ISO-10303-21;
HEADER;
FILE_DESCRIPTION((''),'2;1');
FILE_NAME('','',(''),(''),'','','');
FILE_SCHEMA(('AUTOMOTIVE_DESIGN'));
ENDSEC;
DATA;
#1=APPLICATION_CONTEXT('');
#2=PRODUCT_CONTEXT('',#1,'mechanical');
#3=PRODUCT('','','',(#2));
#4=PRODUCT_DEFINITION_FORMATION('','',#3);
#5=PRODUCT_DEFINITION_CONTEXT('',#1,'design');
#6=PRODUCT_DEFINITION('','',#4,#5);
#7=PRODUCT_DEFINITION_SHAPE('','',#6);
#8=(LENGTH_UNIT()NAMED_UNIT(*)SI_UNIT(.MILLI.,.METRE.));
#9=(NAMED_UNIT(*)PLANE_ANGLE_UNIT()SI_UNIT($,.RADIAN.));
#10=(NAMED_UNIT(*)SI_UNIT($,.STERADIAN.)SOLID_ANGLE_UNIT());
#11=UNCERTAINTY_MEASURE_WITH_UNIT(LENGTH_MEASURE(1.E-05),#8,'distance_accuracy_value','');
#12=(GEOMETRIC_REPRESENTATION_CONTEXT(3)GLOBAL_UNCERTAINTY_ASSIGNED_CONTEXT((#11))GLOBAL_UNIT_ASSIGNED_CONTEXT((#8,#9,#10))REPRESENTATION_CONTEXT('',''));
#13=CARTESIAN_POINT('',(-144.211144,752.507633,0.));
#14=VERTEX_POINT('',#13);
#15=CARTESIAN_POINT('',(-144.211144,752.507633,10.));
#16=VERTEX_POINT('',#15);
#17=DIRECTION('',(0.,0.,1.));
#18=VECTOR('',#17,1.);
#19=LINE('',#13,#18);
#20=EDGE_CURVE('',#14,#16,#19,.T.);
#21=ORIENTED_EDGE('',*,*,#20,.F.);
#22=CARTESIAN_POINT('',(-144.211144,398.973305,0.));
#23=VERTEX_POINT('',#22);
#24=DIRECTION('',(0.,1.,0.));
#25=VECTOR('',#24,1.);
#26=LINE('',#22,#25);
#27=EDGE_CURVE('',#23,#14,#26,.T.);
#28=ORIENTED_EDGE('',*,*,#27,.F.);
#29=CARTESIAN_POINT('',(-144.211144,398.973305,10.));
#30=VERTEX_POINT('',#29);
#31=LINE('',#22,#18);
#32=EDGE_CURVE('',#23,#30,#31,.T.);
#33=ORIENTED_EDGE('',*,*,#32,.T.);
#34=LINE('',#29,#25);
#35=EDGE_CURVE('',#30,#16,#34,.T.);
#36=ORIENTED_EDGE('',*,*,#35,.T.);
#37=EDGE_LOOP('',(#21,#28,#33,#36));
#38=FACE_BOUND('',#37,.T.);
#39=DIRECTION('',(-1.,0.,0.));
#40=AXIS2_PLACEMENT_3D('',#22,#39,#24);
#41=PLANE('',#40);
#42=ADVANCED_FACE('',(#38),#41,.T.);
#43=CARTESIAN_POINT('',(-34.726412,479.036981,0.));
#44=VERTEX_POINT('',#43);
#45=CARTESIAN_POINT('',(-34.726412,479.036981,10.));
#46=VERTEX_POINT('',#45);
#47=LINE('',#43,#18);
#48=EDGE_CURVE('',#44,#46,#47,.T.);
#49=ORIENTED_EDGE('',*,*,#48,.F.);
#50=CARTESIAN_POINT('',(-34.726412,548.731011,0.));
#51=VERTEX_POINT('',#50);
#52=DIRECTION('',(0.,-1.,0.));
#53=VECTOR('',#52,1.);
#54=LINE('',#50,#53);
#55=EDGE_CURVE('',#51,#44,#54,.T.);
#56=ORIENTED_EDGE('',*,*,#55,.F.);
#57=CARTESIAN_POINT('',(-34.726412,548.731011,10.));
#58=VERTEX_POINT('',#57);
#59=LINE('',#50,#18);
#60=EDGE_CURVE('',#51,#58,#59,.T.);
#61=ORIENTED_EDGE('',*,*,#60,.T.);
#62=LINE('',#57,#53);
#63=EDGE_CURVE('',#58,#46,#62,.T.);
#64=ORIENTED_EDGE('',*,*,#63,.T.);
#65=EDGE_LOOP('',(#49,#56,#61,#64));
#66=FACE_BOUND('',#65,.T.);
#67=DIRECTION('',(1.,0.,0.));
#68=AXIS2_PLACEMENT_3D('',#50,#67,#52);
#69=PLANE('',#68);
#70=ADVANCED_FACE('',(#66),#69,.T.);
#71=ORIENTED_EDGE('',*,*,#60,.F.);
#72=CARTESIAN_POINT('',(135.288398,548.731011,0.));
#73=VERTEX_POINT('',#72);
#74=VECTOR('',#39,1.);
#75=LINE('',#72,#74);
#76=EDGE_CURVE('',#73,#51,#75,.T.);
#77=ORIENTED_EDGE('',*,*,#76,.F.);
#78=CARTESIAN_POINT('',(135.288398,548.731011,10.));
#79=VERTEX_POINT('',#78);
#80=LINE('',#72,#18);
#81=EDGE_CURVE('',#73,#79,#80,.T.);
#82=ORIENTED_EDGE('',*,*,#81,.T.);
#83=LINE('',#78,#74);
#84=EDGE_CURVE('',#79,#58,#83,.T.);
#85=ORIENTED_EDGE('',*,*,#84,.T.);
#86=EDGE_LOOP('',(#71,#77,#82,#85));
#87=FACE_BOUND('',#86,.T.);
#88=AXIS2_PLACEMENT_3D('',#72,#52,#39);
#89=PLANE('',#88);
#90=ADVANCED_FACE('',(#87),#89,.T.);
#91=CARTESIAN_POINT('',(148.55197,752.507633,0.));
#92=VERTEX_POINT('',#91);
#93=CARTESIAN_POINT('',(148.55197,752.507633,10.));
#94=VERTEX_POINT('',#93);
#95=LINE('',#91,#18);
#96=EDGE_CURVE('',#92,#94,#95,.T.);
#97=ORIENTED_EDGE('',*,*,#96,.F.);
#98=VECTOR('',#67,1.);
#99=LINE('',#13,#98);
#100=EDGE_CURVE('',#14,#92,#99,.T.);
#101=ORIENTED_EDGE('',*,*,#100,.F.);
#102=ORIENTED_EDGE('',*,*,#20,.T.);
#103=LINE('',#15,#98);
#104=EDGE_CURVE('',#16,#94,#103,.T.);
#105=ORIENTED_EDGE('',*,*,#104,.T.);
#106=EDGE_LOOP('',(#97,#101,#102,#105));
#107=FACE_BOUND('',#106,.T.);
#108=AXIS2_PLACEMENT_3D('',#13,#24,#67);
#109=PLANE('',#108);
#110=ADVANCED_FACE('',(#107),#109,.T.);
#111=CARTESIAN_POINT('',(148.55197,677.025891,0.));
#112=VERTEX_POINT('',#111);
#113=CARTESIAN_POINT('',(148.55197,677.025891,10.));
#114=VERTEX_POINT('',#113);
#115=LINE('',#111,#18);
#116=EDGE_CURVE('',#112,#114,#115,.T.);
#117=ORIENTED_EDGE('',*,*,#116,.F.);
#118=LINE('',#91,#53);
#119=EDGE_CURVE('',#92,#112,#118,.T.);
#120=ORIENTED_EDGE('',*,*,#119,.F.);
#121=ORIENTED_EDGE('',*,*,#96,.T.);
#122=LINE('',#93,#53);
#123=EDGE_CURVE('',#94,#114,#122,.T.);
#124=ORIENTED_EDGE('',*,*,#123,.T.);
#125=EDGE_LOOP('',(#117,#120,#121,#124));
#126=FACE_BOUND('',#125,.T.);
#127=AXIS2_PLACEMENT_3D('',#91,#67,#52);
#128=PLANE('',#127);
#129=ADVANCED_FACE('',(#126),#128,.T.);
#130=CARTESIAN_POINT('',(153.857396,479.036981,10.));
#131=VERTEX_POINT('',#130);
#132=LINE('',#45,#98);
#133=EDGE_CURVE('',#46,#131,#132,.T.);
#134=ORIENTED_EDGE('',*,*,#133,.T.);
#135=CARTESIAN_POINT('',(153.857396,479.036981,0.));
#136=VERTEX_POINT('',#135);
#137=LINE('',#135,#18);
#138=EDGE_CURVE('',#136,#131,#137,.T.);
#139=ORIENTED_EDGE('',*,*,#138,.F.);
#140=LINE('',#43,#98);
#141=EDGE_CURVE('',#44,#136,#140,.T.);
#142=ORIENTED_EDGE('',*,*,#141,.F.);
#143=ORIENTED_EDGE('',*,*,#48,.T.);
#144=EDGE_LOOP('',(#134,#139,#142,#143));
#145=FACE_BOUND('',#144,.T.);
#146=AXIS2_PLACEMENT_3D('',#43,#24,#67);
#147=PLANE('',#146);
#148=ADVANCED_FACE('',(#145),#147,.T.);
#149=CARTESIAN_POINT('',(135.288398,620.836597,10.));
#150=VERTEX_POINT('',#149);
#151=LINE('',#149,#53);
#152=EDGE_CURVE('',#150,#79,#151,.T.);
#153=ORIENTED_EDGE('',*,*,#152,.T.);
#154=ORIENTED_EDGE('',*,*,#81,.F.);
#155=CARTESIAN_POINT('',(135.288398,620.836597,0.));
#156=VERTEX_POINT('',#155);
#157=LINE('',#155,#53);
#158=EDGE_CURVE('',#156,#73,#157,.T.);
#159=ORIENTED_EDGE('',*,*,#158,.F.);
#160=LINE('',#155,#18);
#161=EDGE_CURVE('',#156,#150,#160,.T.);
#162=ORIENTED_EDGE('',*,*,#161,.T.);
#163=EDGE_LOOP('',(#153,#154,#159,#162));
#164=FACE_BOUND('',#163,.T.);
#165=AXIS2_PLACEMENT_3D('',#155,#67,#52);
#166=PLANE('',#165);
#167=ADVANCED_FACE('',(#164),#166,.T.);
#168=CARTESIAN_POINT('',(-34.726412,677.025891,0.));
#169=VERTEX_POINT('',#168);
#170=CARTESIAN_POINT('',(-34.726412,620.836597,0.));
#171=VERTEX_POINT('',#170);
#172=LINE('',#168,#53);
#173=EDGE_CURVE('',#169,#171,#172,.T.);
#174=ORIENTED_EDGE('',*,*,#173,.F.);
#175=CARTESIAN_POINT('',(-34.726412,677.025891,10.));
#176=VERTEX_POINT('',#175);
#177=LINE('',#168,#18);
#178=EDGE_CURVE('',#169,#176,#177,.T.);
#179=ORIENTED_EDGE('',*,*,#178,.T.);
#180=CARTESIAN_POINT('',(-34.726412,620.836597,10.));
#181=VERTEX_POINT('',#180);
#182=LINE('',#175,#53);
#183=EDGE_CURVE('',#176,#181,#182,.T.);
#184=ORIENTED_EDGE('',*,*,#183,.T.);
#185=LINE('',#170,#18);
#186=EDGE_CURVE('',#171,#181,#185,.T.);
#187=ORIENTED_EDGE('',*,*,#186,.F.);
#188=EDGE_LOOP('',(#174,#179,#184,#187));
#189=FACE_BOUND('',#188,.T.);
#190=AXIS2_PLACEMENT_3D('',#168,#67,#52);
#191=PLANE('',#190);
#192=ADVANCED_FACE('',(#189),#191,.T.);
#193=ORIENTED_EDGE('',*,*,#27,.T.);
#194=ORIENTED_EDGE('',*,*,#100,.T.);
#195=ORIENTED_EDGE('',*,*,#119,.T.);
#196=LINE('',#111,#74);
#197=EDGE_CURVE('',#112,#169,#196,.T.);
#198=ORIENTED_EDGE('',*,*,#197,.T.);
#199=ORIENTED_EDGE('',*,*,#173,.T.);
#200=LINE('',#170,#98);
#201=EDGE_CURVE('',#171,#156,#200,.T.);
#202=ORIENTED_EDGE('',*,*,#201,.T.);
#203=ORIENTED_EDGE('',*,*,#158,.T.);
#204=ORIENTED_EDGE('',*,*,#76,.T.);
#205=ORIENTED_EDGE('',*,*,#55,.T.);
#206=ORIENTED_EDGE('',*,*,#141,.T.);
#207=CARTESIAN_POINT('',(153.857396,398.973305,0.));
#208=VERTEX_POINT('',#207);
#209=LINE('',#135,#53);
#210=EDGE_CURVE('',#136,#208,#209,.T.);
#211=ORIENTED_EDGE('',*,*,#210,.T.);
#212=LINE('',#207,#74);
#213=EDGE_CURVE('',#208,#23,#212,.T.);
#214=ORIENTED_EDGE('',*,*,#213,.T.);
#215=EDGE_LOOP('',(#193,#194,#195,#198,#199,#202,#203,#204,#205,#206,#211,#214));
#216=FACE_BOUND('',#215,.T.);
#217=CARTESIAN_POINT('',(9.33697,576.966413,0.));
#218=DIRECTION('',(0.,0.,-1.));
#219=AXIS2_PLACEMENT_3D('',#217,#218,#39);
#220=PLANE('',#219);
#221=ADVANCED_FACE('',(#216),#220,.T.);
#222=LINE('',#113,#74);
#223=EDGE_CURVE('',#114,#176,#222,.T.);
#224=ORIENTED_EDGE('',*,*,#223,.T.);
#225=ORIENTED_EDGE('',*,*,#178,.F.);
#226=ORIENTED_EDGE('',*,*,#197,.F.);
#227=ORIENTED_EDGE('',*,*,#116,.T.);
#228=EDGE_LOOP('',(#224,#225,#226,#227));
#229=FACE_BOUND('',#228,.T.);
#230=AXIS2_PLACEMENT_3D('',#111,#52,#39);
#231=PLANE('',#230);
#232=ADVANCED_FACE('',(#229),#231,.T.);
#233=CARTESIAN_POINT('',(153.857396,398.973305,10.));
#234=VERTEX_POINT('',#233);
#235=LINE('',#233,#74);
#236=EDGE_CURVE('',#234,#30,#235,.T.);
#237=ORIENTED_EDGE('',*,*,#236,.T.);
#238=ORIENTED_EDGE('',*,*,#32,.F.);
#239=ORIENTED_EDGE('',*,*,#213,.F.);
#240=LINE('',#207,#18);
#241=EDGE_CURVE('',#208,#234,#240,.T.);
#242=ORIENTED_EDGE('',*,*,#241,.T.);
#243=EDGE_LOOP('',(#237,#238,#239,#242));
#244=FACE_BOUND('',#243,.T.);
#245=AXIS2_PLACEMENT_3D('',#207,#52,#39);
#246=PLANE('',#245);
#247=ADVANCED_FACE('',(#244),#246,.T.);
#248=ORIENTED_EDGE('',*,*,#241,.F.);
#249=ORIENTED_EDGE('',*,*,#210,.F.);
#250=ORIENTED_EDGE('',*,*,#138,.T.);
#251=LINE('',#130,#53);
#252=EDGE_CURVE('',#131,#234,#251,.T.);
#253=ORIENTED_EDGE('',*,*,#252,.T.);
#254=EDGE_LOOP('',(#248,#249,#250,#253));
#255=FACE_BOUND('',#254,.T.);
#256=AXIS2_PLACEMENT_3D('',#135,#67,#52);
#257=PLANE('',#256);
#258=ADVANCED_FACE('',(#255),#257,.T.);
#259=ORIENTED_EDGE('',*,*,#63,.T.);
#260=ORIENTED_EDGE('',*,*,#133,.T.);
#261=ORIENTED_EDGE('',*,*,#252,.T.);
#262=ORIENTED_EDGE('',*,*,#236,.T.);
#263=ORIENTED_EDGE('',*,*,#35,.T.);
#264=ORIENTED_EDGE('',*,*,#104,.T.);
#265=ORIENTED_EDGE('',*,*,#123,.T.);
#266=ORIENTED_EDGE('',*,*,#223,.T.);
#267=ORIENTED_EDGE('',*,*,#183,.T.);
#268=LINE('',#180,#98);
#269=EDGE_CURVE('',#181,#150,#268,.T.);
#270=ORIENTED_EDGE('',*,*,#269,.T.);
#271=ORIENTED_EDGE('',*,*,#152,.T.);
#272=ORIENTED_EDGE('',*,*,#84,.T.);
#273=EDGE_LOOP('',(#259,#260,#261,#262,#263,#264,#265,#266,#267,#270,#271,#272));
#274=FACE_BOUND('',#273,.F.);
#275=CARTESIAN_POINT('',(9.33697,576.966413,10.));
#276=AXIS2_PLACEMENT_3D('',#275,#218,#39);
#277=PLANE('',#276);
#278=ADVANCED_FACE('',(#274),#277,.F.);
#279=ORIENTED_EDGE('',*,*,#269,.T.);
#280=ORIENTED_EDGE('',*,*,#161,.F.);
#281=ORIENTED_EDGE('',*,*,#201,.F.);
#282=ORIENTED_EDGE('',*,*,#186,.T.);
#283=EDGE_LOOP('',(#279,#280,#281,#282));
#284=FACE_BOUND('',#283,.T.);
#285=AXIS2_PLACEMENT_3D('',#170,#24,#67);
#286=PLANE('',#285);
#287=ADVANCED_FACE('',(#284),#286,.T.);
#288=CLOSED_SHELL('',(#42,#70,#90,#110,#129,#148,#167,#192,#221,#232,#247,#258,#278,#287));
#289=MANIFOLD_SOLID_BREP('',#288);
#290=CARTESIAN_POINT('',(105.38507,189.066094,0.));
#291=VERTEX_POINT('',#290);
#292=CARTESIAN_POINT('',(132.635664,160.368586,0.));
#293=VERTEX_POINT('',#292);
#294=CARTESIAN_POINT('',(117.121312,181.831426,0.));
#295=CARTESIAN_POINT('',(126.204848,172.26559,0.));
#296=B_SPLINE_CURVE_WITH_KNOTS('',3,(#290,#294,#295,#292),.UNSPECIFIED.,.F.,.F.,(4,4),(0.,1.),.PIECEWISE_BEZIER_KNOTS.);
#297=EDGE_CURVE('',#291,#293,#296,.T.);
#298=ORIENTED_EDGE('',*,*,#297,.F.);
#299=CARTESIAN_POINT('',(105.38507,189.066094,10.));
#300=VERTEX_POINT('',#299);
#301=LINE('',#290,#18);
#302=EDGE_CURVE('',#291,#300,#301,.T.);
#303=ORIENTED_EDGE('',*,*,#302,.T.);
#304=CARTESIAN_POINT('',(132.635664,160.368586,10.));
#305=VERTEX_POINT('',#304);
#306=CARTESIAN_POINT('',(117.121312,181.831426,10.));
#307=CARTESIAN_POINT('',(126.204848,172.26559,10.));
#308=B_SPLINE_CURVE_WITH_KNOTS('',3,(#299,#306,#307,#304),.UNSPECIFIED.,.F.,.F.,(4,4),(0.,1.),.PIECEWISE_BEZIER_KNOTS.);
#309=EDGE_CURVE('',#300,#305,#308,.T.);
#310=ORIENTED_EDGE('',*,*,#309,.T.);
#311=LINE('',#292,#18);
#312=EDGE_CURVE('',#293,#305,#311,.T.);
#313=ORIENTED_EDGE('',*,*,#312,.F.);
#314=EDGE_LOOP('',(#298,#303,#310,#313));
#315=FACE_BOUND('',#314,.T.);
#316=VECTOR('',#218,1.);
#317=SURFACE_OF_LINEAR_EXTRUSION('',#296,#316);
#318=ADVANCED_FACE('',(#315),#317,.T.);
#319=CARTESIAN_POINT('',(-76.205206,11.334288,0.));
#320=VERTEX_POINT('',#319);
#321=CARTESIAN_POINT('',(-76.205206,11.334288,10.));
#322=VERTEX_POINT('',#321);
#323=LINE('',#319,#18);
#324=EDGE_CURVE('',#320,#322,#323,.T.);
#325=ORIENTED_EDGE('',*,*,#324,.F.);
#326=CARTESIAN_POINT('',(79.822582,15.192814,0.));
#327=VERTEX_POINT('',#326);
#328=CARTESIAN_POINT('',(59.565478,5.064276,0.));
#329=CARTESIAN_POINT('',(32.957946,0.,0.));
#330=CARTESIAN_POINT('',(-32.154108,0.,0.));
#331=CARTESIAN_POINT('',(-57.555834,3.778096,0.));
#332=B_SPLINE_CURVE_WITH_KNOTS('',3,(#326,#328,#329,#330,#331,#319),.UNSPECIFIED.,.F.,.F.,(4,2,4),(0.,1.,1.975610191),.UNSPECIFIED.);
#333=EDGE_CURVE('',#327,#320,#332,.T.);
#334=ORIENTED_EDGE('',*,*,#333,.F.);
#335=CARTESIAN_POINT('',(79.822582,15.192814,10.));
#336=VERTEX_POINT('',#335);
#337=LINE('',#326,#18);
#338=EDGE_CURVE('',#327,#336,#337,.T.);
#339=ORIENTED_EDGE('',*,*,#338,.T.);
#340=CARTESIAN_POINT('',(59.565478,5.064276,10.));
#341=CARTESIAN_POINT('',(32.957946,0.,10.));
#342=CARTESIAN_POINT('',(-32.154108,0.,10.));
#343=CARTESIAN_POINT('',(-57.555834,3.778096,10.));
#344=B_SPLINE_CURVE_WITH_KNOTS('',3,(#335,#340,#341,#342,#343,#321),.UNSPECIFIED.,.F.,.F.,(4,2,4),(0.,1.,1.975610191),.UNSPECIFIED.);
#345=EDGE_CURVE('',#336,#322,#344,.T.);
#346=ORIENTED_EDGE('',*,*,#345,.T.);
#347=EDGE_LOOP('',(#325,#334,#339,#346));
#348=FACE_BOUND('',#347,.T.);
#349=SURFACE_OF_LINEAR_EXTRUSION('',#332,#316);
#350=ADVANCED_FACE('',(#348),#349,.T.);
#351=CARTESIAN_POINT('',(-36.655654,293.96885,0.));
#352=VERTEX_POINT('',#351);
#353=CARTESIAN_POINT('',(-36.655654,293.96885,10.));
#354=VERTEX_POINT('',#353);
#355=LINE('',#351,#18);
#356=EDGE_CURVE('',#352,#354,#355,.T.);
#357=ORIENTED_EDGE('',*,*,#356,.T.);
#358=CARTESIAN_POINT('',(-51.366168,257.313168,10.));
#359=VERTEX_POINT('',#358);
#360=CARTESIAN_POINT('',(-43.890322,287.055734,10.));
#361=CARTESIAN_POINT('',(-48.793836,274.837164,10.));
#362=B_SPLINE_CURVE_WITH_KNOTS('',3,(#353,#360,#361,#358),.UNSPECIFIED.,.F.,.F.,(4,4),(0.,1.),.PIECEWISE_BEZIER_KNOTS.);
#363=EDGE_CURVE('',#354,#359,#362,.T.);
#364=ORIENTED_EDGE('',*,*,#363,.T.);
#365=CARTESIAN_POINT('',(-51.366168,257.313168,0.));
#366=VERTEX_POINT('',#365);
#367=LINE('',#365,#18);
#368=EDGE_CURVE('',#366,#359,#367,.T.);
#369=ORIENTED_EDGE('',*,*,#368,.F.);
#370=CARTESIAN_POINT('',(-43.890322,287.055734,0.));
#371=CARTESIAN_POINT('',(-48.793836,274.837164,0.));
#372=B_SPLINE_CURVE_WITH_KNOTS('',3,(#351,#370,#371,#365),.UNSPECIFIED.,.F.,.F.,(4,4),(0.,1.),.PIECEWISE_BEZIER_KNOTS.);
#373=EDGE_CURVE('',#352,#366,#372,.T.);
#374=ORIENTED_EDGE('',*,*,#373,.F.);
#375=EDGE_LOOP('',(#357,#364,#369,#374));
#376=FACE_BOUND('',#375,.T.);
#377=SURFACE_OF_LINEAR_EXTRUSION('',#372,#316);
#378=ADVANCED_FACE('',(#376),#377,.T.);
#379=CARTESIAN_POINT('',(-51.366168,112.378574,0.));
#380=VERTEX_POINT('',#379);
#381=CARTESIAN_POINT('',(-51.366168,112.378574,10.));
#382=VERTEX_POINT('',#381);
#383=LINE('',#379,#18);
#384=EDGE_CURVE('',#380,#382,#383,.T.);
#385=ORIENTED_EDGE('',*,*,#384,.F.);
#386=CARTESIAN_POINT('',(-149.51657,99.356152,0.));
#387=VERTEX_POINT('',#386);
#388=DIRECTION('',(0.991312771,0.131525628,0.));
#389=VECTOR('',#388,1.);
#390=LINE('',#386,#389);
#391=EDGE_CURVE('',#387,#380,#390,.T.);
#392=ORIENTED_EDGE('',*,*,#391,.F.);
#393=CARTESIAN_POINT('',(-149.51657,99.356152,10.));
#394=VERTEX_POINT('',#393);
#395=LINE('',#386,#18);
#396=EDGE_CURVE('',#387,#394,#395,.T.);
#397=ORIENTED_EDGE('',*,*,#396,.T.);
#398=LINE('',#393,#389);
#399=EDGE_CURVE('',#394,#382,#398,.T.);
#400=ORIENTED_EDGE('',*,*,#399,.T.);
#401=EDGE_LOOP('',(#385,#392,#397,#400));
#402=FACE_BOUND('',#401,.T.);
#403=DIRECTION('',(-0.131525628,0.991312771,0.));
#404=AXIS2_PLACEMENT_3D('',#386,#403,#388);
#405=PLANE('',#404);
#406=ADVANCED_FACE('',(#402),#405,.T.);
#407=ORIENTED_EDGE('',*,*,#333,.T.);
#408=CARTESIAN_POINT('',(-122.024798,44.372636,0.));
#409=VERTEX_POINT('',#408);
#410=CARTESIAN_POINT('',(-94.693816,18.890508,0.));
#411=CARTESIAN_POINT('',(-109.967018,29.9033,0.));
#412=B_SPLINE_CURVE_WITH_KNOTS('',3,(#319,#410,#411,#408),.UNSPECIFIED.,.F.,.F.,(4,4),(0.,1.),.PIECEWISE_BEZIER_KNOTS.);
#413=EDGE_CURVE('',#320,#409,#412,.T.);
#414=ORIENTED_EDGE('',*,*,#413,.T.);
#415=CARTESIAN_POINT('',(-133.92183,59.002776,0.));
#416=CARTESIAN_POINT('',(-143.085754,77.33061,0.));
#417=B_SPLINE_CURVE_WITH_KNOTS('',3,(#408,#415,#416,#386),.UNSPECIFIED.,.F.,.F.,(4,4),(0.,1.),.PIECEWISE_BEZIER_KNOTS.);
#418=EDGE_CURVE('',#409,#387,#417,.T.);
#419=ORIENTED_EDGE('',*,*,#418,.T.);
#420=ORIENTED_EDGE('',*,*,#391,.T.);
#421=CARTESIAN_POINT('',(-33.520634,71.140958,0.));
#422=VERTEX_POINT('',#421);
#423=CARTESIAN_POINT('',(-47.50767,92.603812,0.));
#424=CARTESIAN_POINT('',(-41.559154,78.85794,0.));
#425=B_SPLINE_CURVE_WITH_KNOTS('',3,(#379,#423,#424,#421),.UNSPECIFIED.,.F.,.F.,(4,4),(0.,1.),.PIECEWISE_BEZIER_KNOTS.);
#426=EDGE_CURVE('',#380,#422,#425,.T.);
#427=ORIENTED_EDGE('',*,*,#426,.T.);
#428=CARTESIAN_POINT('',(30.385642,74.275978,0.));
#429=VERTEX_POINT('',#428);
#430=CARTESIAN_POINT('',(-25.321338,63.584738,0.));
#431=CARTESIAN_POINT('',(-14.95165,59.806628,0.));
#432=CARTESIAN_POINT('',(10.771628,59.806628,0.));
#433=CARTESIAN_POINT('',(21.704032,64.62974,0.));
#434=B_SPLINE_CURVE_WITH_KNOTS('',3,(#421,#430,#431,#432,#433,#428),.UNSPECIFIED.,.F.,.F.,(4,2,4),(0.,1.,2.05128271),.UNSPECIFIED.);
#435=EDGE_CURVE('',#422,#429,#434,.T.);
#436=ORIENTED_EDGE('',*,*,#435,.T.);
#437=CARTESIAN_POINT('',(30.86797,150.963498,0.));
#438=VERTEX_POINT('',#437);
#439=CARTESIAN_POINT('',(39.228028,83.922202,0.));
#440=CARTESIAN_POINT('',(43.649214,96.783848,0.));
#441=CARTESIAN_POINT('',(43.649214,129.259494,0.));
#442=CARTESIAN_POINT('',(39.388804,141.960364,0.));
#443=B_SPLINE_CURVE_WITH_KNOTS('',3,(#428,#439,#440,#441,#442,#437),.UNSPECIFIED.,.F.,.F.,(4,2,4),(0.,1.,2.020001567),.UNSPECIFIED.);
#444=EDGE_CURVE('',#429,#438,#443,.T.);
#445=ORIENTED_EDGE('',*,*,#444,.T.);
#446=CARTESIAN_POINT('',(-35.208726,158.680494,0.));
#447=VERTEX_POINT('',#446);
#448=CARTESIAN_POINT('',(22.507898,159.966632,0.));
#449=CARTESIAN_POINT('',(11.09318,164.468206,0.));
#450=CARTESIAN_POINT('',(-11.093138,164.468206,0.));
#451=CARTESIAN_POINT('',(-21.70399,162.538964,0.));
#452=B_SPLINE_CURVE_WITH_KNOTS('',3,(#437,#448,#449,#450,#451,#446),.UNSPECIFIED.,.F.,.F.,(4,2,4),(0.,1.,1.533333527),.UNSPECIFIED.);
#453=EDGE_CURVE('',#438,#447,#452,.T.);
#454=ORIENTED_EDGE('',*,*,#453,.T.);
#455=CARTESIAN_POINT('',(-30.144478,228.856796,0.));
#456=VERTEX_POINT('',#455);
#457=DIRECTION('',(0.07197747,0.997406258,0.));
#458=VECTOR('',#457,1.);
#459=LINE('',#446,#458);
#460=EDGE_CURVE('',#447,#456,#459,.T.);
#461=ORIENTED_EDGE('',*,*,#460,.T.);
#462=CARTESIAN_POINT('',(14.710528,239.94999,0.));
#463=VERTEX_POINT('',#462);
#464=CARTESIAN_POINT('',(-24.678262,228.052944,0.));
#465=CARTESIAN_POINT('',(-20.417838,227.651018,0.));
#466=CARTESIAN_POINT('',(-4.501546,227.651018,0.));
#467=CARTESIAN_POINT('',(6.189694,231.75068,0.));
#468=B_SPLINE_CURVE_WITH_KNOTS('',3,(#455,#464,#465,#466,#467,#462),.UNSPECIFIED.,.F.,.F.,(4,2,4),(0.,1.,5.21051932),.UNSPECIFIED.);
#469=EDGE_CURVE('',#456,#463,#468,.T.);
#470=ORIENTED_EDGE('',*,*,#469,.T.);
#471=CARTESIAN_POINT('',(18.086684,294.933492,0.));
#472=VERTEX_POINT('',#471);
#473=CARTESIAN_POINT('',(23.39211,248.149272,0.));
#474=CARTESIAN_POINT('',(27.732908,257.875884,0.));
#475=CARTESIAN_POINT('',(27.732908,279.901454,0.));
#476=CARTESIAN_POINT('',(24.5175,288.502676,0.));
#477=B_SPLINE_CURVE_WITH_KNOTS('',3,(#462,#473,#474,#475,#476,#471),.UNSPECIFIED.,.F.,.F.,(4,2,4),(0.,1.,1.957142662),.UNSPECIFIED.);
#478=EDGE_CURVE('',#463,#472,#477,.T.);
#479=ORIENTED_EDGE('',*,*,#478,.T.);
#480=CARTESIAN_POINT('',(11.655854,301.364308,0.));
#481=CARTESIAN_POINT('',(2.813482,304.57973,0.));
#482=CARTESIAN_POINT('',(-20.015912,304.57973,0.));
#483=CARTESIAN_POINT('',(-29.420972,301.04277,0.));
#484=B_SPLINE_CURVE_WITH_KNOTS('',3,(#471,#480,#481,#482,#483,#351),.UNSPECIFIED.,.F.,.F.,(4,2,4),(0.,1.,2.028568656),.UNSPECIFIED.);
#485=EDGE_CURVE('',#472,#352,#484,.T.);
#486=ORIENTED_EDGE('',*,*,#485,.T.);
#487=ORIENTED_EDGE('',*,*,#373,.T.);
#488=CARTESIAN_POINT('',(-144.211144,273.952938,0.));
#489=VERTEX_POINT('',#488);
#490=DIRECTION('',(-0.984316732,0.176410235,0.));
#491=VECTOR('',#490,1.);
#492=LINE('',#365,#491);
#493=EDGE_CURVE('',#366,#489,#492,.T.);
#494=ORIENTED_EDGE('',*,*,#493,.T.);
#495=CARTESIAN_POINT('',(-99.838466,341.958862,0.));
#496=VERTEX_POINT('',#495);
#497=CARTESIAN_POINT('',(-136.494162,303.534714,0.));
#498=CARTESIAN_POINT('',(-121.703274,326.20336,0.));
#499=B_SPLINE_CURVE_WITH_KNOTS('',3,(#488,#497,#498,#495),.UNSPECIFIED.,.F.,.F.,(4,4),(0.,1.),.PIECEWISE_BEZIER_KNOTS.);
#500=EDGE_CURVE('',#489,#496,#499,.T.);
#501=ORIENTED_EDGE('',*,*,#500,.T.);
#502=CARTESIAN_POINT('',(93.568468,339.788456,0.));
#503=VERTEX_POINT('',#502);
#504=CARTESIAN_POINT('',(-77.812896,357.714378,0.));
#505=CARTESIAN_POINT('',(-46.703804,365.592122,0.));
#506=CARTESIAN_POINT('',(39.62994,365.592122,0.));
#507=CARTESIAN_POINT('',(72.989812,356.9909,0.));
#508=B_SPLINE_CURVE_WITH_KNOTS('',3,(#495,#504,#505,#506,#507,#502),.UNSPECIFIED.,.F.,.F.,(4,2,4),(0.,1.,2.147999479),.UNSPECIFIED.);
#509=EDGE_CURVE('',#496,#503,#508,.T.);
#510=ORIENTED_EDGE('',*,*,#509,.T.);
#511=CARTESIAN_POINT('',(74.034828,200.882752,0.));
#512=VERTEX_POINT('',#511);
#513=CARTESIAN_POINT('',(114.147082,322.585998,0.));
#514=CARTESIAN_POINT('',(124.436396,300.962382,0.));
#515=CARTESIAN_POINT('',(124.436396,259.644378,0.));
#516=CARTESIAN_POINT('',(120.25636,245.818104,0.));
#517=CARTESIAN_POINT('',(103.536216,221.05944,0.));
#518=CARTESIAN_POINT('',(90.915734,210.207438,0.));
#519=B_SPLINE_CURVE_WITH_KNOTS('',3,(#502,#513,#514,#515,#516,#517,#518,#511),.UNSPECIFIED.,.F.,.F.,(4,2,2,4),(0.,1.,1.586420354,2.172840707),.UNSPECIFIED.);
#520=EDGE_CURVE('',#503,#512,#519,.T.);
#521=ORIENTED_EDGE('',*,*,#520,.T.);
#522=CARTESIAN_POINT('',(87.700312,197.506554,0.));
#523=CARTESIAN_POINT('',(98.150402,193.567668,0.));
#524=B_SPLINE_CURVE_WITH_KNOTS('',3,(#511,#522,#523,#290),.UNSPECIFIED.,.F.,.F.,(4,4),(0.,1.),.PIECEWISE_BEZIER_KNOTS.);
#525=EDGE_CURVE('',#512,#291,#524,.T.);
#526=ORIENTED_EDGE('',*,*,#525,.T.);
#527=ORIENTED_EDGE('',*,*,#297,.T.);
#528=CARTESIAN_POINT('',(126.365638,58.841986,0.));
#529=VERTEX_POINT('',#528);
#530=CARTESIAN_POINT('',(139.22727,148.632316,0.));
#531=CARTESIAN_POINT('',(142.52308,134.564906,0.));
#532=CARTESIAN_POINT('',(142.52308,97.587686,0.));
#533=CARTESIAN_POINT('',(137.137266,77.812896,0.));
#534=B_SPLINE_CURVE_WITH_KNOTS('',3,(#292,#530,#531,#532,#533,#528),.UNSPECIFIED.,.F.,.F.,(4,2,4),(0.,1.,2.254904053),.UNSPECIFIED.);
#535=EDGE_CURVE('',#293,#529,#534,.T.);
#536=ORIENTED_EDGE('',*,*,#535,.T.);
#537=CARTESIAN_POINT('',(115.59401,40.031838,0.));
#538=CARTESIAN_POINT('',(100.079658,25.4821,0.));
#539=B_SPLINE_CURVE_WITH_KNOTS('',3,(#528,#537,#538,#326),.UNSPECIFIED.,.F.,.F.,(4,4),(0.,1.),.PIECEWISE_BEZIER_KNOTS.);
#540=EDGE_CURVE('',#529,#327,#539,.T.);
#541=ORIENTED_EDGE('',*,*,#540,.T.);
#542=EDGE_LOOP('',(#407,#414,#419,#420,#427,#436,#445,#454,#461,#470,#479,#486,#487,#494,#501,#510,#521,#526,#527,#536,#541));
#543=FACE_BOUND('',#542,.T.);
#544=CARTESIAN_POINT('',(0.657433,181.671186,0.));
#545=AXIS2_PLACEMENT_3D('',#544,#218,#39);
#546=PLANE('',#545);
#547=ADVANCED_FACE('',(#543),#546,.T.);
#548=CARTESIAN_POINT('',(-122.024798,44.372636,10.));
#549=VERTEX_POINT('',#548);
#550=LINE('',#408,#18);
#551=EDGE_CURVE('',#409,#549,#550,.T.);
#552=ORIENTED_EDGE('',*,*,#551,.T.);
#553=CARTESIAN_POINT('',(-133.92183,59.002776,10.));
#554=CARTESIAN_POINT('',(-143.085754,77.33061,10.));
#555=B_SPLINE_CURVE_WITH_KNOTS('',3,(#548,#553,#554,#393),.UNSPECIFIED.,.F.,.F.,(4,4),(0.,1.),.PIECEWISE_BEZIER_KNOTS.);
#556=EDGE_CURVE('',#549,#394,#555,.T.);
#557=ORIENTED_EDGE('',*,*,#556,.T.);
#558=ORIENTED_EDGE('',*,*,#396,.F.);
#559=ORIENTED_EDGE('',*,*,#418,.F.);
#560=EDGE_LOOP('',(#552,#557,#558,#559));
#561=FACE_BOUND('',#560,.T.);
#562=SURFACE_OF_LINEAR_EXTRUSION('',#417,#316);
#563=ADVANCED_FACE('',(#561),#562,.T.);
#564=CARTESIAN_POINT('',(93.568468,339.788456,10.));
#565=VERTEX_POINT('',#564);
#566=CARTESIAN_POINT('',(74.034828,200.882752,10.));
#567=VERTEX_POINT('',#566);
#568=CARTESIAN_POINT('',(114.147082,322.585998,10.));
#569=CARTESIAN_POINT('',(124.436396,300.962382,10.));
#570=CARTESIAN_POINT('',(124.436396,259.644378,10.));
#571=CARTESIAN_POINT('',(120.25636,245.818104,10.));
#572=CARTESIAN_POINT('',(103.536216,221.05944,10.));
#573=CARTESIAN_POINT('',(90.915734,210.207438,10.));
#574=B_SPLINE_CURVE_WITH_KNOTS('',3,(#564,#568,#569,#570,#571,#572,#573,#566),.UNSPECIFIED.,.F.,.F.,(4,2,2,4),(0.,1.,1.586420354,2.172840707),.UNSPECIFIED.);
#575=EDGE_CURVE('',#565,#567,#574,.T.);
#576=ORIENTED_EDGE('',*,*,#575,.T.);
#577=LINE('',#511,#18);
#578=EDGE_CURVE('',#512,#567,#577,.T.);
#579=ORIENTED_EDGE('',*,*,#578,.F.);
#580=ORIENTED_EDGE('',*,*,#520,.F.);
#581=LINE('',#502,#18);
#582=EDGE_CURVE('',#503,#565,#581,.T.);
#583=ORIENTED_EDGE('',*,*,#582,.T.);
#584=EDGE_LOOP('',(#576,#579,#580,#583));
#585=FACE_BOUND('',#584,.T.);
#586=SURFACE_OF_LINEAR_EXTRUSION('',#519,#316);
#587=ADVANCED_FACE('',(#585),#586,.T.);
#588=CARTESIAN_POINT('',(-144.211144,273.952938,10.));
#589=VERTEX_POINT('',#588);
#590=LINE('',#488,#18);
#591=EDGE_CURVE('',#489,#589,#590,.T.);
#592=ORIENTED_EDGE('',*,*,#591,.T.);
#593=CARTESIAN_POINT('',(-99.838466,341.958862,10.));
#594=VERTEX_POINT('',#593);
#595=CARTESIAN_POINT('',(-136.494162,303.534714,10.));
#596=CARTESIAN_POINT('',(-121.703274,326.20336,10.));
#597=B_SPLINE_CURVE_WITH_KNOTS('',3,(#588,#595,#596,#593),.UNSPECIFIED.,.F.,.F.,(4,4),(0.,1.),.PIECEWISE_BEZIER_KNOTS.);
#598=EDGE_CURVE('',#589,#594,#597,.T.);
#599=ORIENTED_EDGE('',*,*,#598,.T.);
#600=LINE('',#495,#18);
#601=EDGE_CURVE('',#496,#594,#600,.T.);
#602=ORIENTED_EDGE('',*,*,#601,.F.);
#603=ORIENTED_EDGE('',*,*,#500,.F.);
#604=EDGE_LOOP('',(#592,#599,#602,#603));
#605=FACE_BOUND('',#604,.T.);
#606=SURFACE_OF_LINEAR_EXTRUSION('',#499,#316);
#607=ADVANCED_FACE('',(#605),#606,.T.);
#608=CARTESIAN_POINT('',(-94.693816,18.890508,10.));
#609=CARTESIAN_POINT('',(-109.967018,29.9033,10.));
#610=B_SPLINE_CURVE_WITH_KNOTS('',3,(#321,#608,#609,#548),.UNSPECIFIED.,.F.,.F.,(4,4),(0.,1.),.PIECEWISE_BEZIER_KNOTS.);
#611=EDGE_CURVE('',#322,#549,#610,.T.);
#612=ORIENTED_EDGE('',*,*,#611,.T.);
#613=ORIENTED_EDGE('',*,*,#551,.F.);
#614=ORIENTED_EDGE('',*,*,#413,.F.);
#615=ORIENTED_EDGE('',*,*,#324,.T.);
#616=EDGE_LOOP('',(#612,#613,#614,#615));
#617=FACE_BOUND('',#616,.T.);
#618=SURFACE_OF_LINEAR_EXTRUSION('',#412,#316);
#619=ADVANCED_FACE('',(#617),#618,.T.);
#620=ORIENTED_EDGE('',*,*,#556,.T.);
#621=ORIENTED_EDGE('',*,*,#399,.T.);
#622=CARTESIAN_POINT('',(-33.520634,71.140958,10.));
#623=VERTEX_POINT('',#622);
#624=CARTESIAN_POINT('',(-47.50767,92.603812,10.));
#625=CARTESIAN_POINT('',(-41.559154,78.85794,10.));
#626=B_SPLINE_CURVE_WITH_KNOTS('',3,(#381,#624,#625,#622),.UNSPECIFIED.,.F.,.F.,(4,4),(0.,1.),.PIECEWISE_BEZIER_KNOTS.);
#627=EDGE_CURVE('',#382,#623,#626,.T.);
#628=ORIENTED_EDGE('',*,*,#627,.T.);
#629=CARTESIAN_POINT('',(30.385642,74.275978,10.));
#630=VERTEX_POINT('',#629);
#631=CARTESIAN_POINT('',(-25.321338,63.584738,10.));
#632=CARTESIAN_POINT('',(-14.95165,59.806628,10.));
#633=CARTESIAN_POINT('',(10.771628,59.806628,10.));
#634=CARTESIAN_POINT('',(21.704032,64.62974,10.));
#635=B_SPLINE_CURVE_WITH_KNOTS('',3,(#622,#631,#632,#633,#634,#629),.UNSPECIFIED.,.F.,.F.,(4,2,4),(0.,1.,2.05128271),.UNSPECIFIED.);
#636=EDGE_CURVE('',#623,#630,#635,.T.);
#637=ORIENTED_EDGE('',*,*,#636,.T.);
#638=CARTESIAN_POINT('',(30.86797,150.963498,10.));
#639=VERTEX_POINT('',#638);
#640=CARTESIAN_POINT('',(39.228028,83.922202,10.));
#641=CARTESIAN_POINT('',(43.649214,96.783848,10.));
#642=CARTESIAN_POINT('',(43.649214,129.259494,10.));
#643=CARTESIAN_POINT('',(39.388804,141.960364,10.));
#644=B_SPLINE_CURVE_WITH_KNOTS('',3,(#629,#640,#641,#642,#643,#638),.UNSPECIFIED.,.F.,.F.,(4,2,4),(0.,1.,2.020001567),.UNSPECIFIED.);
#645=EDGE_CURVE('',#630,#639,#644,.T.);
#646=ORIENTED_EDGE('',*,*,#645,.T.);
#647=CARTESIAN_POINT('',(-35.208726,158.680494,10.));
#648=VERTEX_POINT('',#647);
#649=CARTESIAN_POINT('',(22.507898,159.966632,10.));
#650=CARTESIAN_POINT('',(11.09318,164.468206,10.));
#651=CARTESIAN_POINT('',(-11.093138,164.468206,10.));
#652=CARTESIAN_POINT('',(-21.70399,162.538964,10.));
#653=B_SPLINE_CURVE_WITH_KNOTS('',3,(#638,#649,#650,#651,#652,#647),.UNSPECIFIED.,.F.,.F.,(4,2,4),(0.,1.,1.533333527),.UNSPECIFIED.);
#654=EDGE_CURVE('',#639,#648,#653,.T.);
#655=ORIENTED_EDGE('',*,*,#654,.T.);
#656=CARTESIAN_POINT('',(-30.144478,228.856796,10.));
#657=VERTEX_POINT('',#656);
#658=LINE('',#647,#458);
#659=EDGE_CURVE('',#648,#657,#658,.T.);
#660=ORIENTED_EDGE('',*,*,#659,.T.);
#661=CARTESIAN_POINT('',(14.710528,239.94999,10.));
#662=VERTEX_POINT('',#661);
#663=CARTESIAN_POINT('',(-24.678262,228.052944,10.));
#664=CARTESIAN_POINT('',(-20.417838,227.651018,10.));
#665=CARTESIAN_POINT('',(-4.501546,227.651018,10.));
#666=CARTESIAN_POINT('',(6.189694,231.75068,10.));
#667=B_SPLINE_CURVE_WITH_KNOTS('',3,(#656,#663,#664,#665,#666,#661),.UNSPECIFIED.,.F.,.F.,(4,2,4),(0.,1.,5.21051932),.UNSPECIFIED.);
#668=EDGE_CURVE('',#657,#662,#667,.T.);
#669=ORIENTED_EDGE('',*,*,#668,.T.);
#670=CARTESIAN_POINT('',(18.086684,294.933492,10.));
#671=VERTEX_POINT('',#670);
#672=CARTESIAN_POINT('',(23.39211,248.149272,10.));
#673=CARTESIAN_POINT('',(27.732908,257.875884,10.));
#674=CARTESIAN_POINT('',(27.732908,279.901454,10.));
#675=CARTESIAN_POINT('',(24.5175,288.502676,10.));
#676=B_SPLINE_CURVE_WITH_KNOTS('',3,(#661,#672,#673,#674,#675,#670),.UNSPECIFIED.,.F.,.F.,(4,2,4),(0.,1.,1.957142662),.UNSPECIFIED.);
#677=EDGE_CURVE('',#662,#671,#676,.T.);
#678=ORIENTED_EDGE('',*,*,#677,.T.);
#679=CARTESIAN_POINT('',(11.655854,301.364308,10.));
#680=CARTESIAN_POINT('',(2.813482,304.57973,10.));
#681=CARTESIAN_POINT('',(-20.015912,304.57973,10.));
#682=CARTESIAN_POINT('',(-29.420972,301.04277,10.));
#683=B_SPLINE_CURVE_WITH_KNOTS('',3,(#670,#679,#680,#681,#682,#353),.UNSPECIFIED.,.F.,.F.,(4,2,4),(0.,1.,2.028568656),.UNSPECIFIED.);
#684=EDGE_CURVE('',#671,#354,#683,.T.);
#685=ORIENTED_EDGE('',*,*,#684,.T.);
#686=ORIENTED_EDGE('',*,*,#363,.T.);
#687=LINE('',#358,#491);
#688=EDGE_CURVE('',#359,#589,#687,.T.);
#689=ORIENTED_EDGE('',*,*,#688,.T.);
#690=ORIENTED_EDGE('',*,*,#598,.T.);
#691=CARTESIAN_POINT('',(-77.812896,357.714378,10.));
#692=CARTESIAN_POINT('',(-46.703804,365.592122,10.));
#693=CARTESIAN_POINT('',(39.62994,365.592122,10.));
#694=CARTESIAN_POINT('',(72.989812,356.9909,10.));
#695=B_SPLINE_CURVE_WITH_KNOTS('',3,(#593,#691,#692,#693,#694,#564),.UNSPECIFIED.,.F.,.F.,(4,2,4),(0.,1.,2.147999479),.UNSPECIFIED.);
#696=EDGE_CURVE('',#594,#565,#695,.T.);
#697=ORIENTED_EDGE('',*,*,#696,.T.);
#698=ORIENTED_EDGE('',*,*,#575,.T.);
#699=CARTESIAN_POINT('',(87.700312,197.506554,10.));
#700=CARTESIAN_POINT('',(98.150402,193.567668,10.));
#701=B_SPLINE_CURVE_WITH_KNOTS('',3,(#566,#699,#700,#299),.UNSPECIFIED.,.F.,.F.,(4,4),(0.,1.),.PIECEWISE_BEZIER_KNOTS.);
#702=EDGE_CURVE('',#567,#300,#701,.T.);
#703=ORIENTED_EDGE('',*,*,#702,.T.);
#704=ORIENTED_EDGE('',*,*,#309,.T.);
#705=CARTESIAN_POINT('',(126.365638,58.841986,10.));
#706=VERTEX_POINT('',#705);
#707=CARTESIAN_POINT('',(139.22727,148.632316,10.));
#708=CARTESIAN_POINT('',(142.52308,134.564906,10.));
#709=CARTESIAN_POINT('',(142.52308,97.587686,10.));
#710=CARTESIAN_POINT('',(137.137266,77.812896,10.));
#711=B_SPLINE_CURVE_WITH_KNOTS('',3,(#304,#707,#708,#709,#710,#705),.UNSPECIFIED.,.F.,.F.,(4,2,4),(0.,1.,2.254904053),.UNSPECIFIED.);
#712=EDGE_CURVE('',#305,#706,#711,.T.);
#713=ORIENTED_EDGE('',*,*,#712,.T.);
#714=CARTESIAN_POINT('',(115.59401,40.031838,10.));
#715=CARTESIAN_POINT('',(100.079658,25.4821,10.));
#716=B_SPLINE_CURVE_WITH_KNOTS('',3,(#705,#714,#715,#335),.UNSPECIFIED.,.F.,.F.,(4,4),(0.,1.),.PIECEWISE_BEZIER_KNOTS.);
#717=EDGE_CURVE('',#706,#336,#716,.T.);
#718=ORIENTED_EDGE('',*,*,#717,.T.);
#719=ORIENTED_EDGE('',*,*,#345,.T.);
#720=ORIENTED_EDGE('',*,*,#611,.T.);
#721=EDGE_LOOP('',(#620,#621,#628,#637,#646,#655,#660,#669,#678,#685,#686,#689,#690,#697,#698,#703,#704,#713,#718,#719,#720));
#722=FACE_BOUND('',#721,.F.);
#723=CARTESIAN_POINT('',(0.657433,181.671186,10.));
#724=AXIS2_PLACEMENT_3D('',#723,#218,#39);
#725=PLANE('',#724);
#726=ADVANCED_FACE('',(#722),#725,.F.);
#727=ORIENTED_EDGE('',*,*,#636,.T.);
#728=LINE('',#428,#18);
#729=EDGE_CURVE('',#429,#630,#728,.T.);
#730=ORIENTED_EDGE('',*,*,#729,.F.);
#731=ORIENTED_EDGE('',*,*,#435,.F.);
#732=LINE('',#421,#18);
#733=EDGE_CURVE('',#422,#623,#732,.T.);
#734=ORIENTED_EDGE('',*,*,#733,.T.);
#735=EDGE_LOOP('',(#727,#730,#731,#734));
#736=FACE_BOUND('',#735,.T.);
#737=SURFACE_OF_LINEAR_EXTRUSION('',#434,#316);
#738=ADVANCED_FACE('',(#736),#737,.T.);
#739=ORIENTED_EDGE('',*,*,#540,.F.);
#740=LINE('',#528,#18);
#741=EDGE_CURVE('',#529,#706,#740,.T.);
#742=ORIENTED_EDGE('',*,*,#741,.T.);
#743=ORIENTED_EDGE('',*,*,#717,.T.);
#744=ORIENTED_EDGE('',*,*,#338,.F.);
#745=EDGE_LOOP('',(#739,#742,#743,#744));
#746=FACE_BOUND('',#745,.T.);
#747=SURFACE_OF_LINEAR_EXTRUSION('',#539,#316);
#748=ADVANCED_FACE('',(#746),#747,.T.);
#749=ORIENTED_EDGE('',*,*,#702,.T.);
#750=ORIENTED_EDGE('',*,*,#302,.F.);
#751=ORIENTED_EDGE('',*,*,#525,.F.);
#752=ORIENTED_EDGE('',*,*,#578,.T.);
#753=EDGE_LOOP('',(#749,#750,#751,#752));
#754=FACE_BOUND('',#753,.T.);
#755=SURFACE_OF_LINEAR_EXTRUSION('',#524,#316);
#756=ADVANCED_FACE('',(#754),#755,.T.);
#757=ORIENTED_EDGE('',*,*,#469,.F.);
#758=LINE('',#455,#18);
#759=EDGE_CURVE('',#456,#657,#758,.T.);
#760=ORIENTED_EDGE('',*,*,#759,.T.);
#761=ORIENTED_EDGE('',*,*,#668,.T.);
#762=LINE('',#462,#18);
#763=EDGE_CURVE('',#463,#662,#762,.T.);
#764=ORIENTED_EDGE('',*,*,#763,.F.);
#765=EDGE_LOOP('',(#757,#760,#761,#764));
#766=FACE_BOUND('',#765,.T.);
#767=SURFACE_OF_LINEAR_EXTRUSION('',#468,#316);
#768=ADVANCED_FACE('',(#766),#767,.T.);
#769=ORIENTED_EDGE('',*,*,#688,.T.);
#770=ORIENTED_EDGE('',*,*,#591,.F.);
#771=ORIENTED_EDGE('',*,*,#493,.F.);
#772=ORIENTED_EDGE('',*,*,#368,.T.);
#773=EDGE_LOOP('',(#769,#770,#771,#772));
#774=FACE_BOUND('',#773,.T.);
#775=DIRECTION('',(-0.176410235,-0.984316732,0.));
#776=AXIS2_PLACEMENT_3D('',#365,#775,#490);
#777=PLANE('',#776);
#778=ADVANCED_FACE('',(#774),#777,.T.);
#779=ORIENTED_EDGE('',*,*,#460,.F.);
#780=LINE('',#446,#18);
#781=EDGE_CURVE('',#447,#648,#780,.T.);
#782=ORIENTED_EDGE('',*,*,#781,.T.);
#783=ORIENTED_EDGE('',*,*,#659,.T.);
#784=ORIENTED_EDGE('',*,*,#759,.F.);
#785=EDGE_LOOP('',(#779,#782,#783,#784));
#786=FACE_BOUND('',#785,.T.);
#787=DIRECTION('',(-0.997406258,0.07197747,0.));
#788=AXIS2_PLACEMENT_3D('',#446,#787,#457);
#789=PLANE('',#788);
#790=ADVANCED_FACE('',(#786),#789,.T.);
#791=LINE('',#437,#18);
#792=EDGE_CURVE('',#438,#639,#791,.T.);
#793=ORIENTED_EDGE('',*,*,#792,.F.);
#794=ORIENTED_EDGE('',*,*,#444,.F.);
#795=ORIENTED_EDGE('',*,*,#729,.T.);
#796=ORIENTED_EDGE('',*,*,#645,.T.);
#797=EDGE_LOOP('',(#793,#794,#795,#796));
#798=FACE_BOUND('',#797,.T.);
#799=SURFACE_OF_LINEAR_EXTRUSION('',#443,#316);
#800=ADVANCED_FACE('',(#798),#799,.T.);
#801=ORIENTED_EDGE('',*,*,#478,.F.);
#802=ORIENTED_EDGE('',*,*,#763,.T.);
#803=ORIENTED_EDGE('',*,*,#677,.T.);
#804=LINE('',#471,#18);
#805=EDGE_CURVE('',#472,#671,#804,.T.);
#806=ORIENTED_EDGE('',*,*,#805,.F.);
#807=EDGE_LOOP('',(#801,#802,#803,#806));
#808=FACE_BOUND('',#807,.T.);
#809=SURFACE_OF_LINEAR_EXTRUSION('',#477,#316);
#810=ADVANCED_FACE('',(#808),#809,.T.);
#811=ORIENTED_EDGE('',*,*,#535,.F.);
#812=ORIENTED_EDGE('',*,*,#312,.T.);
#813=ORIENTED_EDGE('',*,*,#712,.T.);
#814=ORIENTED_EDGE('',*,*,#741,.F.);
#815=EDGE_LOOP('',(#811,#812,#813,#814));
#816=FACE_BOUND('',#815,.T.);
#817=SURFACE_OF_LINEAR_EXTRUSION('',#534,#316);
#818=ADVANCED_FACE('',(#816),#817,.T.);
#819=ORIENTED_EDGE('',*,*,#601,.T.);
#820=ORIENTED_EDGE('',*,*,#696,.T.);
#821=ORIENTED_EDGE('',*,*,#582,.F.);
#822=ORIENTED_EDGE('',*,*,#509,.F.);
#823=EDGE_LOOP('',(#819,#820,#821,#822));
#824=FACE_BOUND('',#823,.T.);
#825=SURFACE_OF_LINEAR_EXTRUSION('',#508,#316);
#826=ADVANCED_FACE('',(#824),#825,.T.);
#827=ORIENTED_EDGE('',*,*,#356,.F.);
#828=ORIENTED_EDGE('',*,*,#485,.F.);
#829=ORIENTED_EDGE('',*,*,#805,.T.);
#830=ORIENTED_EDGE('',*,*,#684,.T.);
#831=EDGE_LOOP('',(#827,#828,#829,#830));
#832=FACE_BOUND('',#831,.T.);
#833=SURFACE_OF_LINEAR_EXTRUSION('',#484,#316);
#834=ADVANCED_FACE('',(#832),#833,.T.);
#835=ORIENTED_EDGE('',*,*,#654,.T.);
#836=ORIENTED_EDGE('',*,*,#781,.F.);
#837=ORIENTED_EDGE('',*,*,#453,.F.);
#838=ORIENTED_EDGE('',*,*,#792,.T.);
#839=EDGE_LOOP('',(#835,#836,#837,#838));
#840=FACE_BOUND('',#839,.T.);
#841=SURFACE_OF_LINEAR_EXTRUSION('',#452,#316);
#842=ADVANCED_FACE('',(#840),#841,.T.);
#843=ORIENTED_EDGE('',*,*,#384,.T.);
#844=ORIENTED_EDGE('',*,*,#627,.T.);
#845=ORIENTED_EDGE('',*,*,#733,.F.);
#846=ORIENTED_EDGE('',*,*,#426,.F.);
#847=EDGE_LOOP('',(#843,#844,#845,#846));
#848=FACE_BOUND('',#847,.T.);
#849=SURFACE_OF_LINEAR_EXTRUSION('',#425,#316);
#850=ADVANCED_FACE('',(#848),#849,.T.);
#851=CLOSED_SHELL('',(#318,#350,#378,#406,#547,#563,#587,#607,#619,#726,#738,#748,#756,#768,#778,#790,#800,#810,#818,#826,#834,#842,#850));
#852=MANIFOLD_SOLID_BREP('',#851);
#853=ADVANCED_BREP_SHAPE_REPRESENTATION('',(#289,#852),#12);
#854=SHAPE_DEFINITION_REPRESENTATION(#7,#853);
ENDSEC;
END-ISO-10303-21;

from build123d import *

# Parameters (mm, degrees)
BOSS_EXTRUDE1_DEPTH   = 10
BOSS_EXTRUDE1_2_DEPTH = 10


with BuildPart() as part:
    # Sketch1 → Boss-Extrude1 (new body)
    with BuildSketch(Plane.XY):
        Polygon((-144.211144, 752.50763293), (148.55197, 752.50763293), (148.55197, 677.02589093), (-34.726412, 677.02589093), (-34.726412, 620.83659693), (135.288398, 620.83659693), (135.288398, 548.73101093), (-34.726412, 548.73101093), (-34.726412, 479.03698093), (153.857396, 479.03698093), (153.857396, 398.97330493), (-144.211144, 398.97330493), align=None)
    extrude(amount=BOSS_EXTRUDE1_DEPTH)


with BuildPart() as body_2:
    # Sketch1 → Boss-Extrude1 2 (new body)
    with BuildSketch(Plane.XY):
        with BuildLine():
            Line((-51.366168, 257.313168), (-144.211144, 273.952938))
            add(Edge.make_bspline(
                [(-144.211144, 273.952938), (-136.494162, 303.534714), (-121.703274, 326.20336), (-99.838466, 341.958862)],
                knots=[0, 0, 0, 0, 1, 1, 1, 1], degree=3))
            add(Edge.make_bspline(
                [(-99.838466, 341.958862), (-77.812896, 357.714378), (-46.703804, 365.592122), (-6.511176, 365.592122)],
                knots=[0, 0, 0, 0, 1, 1, 1, 1], degree=3))
            add(Edge.make_bspline(
                [(-6.511176, 365.592122), (39.62994, 365.592122), (72.989812, 356.9909), (93.568468, 339.788456)],
                knots=[0, 0, 0, 0, 1, 1, 1, 1], degree=3))
            add(Edge.make_bspline(
                [(93.568468, 339.788456), (114.147082, 322.585998), (124.436396, 300.962382), (124.436396, 274.91758)],
                knots=[0, 0, 0, 0, 1, 1, 1, 1], degree=3))
            add(Edge.make_bspline(
                [(124.436396, 274.91758), (124.436396, 259.644378), (120.25636, 245.818104), (111.896288, 233.438772)],
                knots=[0, 0, 0, 0, 1, 1, 1, 1], degree=3))
            add(Edge.make_bspline(
                [(111.896288, 233.438772), (103.536216, 221.05944), (90.915734, 210.207438), (74.034828, 200.882752)],
                knots=[0, 0, 0, 0, 1, 1, 1, 1], degree=3))
            add(Edge.make_bspline(
                [(74.034828, 200.882752), (87.700312, 197.506554), (98.150402, 193.567668), (105.38507, 189.066094)],
                knots=[0, 0, 0, 0, 1, 1, 1, 1], degree=3))
            add(Edge.make_bspline(
                [(105.38507, 189.066094), (117.121312, 181.831426), (126.204848, 172.26559), (132.635664, 160.368586)],
                knots=[0, 0, 0, 0, 1, 1, 1, 1], degree=3))
            add(Edge.make_bspline(
                [(132.635664, 160.368586), (139.22727, 148.632316), (142.52308, 134.564906), (142.52308, 118.166328)],
                knots=[0, 0, 0, 0, 1, 1, 1, 1], degree=3))
            add(Edge.make_bspline(
                [(142.52308, 118.166328), (142.52308, 97.587686), (137.137266, 77.812896), (126.365638, 58.841986)],
                knots=[0, 0, 0, 0, 1, 1, 1, 1], degree=3))
            add(Edge.make_bspline(
                [(126.365638, 58.841986), (115.59401, 40.031838), (100.079658, 25.4821), (79.822582, 15.192814)],
                knots=[0, 0, 0, 0, 1, 1, 1, 1], degree=3))
            add(Edge.make_bspline(
                [(79.822582, 15.192814), (59.565478, 5.064276), (32.957946, 0), (0, 0)],
                knots=[0, 0, 0, 0, 1, 1, 1, 1], degree=3))
            add(Edge.make_bspline(
                [(0, 0), (-32.154108, 0), (-57.555834, 3.778096), (-76.205206, 11.334288)],
                knots=[0, 0, 0, 0, 1, 1, 1, 1], degree=3))
            add(Edge.make_bspline(
                [(-76.205206, 11.334288), (-94.693816, 18.890508), (-109.967018, 29.9033), (-122.024798, 44.372636)],
                knots=[0, 0, 0, 0, 1, 1, 1, 1], degree=3))
            add(Edge.make_bspline(
                [(-122.024798, 44.372636), (-133.92183, 59.002776), (-143.085754, 77.33061), (-149.51657, 99.356152)],
                knots=[0, 0, 0, 0, 1, 1, 1, 1], degree=3))
            Line((-149.51657, 99.356152), (-51.366168, 112.378574))
            add(Edge.make_bspline(
                [(-51.366168, 112.378574), (-47.50767, 92.603812), (-41.559154, 78.85794), (-33.520634, 71.140958)],
                knots=[0, 0, 0, 0, 1, 1, 1, 1], degree=3))
            add(Edge.make_bspline(
                [(-33.520634, 71.140958), (-25.321338, 63.584738), (-14.95165, 59.806628), (-2.411556, 59.806628)],
                knots=[0, 0, 0, 0, 1, 1, 1, 1], degree=3))
            add(Edge.make_bspline(
                [(-2.411556, 59.806628), (10.771628, 59.806628), (21.704032, 64.62974), (30.385642, 74.275978)],
                knots=[0, 0, 0, 0, 1, 1, 1, 1], degree=3))
            add(Edge.make_bspline(
                [(30.385642, 74.275978), (39.228028, 83.922202), (43.649214, 96.783848), (43.649214, 112.860888)],
                knots=[0, 0, 0, 0, 1, 1, 1, 1], degree=3))
            add(Edge.make_bspline(
                [(43.649214, 112.860888), (43.649214, 129.259494), (39.388804, 141.960364), (30.86797, 150.963498)],
                knots=[0, 0, 0, 0, 1, 1, 1, 1], degree=3))
            add(Edge.make_bspline(
                [(30.86797, 150.963498), (22.507898, 159.966632), (11.09318, 164.468206), (-3.376156, 164.468206)],
                knots=[0, 0, 0, 0, 1, 1, 1, 1], degree=3))
            add(Edge.make_bspline(
                [(-3.376156, 164.468206), (-11.093138, 164.468206), (-21.70399, 162.538964), (-35.208726, 158.680494)],
                knots=[0, 0, 0, 0, 1, 1, 1, 1], degree=3))
            Line((-35.208726, 158.680494), (-30.144478, 228.856796))
            add(Edge.make_bspline(
                [(-30.144478, 228.856796), (-24.678262, 228.052944), (-20.417838, 227.651018), (-17.363192, 227.651018)],
                knots=[0, 0, 0, 0, 1, 1, 1, 1], degree=3))
            add(Edge.make_bspline(
                [(-17.363192, 227.651018), (-4.501546, 227.651018), (6.189694, 231.75068), (14.710528, 239.94999)],
                knots=[0, 0, 0, 0, 1, 1, 1, 1], degree=3))
            add(Edge.make_bspline(
                [(14.710528, 239.94999), (23.39211, 248.149272), (27.732908, 257.875884), (27.732908, 269.129826)],
                knots=[0, 0, 0, 0, 1, 1, 1, 1], degree=3))
            add(Edge.make_bspline(
                [(27.732908, 269.129826), (27.732908, 279.901454), (24.5175, 288.502676), (18.086684, 294.933492)],
                knots=[0, 0, 0, 0, 1, 1, 1, 1], degree=3))
            add(Edge.make_bspline(
                [(18.086684, 294.933492), (11.655854, 301.364308), (2.813482, 304.57973), (-8.44046, 304.57973)],
                knots=[0, 0, 0, 0, 1, 1, 1, 1], degree=3))
            add(Edge.make_bspline(
                [(-8.44046, 304.57973), (-20.015912, 304.57973), (-29.420972, 301.04277), (-36.655654, 293.96885)],
                knots=[0, 0, 0, 0, 1, 1, 1, 1], degree=3))
            add(Edge.make_bspline(
                [(-36.655654, 293.96885), (-43.890322, 287.055734), (-48.793836, 274.837164), (-51.366168, 257.313168)],
                knots=[0, 0, 0, 0, 1, 1, 1, 1], degree=3))
        make_face()
    extrude(amount=BOSS_EXTRUDE1_2_DEPTH)


solid = Compound([part.part, body_2.part])
